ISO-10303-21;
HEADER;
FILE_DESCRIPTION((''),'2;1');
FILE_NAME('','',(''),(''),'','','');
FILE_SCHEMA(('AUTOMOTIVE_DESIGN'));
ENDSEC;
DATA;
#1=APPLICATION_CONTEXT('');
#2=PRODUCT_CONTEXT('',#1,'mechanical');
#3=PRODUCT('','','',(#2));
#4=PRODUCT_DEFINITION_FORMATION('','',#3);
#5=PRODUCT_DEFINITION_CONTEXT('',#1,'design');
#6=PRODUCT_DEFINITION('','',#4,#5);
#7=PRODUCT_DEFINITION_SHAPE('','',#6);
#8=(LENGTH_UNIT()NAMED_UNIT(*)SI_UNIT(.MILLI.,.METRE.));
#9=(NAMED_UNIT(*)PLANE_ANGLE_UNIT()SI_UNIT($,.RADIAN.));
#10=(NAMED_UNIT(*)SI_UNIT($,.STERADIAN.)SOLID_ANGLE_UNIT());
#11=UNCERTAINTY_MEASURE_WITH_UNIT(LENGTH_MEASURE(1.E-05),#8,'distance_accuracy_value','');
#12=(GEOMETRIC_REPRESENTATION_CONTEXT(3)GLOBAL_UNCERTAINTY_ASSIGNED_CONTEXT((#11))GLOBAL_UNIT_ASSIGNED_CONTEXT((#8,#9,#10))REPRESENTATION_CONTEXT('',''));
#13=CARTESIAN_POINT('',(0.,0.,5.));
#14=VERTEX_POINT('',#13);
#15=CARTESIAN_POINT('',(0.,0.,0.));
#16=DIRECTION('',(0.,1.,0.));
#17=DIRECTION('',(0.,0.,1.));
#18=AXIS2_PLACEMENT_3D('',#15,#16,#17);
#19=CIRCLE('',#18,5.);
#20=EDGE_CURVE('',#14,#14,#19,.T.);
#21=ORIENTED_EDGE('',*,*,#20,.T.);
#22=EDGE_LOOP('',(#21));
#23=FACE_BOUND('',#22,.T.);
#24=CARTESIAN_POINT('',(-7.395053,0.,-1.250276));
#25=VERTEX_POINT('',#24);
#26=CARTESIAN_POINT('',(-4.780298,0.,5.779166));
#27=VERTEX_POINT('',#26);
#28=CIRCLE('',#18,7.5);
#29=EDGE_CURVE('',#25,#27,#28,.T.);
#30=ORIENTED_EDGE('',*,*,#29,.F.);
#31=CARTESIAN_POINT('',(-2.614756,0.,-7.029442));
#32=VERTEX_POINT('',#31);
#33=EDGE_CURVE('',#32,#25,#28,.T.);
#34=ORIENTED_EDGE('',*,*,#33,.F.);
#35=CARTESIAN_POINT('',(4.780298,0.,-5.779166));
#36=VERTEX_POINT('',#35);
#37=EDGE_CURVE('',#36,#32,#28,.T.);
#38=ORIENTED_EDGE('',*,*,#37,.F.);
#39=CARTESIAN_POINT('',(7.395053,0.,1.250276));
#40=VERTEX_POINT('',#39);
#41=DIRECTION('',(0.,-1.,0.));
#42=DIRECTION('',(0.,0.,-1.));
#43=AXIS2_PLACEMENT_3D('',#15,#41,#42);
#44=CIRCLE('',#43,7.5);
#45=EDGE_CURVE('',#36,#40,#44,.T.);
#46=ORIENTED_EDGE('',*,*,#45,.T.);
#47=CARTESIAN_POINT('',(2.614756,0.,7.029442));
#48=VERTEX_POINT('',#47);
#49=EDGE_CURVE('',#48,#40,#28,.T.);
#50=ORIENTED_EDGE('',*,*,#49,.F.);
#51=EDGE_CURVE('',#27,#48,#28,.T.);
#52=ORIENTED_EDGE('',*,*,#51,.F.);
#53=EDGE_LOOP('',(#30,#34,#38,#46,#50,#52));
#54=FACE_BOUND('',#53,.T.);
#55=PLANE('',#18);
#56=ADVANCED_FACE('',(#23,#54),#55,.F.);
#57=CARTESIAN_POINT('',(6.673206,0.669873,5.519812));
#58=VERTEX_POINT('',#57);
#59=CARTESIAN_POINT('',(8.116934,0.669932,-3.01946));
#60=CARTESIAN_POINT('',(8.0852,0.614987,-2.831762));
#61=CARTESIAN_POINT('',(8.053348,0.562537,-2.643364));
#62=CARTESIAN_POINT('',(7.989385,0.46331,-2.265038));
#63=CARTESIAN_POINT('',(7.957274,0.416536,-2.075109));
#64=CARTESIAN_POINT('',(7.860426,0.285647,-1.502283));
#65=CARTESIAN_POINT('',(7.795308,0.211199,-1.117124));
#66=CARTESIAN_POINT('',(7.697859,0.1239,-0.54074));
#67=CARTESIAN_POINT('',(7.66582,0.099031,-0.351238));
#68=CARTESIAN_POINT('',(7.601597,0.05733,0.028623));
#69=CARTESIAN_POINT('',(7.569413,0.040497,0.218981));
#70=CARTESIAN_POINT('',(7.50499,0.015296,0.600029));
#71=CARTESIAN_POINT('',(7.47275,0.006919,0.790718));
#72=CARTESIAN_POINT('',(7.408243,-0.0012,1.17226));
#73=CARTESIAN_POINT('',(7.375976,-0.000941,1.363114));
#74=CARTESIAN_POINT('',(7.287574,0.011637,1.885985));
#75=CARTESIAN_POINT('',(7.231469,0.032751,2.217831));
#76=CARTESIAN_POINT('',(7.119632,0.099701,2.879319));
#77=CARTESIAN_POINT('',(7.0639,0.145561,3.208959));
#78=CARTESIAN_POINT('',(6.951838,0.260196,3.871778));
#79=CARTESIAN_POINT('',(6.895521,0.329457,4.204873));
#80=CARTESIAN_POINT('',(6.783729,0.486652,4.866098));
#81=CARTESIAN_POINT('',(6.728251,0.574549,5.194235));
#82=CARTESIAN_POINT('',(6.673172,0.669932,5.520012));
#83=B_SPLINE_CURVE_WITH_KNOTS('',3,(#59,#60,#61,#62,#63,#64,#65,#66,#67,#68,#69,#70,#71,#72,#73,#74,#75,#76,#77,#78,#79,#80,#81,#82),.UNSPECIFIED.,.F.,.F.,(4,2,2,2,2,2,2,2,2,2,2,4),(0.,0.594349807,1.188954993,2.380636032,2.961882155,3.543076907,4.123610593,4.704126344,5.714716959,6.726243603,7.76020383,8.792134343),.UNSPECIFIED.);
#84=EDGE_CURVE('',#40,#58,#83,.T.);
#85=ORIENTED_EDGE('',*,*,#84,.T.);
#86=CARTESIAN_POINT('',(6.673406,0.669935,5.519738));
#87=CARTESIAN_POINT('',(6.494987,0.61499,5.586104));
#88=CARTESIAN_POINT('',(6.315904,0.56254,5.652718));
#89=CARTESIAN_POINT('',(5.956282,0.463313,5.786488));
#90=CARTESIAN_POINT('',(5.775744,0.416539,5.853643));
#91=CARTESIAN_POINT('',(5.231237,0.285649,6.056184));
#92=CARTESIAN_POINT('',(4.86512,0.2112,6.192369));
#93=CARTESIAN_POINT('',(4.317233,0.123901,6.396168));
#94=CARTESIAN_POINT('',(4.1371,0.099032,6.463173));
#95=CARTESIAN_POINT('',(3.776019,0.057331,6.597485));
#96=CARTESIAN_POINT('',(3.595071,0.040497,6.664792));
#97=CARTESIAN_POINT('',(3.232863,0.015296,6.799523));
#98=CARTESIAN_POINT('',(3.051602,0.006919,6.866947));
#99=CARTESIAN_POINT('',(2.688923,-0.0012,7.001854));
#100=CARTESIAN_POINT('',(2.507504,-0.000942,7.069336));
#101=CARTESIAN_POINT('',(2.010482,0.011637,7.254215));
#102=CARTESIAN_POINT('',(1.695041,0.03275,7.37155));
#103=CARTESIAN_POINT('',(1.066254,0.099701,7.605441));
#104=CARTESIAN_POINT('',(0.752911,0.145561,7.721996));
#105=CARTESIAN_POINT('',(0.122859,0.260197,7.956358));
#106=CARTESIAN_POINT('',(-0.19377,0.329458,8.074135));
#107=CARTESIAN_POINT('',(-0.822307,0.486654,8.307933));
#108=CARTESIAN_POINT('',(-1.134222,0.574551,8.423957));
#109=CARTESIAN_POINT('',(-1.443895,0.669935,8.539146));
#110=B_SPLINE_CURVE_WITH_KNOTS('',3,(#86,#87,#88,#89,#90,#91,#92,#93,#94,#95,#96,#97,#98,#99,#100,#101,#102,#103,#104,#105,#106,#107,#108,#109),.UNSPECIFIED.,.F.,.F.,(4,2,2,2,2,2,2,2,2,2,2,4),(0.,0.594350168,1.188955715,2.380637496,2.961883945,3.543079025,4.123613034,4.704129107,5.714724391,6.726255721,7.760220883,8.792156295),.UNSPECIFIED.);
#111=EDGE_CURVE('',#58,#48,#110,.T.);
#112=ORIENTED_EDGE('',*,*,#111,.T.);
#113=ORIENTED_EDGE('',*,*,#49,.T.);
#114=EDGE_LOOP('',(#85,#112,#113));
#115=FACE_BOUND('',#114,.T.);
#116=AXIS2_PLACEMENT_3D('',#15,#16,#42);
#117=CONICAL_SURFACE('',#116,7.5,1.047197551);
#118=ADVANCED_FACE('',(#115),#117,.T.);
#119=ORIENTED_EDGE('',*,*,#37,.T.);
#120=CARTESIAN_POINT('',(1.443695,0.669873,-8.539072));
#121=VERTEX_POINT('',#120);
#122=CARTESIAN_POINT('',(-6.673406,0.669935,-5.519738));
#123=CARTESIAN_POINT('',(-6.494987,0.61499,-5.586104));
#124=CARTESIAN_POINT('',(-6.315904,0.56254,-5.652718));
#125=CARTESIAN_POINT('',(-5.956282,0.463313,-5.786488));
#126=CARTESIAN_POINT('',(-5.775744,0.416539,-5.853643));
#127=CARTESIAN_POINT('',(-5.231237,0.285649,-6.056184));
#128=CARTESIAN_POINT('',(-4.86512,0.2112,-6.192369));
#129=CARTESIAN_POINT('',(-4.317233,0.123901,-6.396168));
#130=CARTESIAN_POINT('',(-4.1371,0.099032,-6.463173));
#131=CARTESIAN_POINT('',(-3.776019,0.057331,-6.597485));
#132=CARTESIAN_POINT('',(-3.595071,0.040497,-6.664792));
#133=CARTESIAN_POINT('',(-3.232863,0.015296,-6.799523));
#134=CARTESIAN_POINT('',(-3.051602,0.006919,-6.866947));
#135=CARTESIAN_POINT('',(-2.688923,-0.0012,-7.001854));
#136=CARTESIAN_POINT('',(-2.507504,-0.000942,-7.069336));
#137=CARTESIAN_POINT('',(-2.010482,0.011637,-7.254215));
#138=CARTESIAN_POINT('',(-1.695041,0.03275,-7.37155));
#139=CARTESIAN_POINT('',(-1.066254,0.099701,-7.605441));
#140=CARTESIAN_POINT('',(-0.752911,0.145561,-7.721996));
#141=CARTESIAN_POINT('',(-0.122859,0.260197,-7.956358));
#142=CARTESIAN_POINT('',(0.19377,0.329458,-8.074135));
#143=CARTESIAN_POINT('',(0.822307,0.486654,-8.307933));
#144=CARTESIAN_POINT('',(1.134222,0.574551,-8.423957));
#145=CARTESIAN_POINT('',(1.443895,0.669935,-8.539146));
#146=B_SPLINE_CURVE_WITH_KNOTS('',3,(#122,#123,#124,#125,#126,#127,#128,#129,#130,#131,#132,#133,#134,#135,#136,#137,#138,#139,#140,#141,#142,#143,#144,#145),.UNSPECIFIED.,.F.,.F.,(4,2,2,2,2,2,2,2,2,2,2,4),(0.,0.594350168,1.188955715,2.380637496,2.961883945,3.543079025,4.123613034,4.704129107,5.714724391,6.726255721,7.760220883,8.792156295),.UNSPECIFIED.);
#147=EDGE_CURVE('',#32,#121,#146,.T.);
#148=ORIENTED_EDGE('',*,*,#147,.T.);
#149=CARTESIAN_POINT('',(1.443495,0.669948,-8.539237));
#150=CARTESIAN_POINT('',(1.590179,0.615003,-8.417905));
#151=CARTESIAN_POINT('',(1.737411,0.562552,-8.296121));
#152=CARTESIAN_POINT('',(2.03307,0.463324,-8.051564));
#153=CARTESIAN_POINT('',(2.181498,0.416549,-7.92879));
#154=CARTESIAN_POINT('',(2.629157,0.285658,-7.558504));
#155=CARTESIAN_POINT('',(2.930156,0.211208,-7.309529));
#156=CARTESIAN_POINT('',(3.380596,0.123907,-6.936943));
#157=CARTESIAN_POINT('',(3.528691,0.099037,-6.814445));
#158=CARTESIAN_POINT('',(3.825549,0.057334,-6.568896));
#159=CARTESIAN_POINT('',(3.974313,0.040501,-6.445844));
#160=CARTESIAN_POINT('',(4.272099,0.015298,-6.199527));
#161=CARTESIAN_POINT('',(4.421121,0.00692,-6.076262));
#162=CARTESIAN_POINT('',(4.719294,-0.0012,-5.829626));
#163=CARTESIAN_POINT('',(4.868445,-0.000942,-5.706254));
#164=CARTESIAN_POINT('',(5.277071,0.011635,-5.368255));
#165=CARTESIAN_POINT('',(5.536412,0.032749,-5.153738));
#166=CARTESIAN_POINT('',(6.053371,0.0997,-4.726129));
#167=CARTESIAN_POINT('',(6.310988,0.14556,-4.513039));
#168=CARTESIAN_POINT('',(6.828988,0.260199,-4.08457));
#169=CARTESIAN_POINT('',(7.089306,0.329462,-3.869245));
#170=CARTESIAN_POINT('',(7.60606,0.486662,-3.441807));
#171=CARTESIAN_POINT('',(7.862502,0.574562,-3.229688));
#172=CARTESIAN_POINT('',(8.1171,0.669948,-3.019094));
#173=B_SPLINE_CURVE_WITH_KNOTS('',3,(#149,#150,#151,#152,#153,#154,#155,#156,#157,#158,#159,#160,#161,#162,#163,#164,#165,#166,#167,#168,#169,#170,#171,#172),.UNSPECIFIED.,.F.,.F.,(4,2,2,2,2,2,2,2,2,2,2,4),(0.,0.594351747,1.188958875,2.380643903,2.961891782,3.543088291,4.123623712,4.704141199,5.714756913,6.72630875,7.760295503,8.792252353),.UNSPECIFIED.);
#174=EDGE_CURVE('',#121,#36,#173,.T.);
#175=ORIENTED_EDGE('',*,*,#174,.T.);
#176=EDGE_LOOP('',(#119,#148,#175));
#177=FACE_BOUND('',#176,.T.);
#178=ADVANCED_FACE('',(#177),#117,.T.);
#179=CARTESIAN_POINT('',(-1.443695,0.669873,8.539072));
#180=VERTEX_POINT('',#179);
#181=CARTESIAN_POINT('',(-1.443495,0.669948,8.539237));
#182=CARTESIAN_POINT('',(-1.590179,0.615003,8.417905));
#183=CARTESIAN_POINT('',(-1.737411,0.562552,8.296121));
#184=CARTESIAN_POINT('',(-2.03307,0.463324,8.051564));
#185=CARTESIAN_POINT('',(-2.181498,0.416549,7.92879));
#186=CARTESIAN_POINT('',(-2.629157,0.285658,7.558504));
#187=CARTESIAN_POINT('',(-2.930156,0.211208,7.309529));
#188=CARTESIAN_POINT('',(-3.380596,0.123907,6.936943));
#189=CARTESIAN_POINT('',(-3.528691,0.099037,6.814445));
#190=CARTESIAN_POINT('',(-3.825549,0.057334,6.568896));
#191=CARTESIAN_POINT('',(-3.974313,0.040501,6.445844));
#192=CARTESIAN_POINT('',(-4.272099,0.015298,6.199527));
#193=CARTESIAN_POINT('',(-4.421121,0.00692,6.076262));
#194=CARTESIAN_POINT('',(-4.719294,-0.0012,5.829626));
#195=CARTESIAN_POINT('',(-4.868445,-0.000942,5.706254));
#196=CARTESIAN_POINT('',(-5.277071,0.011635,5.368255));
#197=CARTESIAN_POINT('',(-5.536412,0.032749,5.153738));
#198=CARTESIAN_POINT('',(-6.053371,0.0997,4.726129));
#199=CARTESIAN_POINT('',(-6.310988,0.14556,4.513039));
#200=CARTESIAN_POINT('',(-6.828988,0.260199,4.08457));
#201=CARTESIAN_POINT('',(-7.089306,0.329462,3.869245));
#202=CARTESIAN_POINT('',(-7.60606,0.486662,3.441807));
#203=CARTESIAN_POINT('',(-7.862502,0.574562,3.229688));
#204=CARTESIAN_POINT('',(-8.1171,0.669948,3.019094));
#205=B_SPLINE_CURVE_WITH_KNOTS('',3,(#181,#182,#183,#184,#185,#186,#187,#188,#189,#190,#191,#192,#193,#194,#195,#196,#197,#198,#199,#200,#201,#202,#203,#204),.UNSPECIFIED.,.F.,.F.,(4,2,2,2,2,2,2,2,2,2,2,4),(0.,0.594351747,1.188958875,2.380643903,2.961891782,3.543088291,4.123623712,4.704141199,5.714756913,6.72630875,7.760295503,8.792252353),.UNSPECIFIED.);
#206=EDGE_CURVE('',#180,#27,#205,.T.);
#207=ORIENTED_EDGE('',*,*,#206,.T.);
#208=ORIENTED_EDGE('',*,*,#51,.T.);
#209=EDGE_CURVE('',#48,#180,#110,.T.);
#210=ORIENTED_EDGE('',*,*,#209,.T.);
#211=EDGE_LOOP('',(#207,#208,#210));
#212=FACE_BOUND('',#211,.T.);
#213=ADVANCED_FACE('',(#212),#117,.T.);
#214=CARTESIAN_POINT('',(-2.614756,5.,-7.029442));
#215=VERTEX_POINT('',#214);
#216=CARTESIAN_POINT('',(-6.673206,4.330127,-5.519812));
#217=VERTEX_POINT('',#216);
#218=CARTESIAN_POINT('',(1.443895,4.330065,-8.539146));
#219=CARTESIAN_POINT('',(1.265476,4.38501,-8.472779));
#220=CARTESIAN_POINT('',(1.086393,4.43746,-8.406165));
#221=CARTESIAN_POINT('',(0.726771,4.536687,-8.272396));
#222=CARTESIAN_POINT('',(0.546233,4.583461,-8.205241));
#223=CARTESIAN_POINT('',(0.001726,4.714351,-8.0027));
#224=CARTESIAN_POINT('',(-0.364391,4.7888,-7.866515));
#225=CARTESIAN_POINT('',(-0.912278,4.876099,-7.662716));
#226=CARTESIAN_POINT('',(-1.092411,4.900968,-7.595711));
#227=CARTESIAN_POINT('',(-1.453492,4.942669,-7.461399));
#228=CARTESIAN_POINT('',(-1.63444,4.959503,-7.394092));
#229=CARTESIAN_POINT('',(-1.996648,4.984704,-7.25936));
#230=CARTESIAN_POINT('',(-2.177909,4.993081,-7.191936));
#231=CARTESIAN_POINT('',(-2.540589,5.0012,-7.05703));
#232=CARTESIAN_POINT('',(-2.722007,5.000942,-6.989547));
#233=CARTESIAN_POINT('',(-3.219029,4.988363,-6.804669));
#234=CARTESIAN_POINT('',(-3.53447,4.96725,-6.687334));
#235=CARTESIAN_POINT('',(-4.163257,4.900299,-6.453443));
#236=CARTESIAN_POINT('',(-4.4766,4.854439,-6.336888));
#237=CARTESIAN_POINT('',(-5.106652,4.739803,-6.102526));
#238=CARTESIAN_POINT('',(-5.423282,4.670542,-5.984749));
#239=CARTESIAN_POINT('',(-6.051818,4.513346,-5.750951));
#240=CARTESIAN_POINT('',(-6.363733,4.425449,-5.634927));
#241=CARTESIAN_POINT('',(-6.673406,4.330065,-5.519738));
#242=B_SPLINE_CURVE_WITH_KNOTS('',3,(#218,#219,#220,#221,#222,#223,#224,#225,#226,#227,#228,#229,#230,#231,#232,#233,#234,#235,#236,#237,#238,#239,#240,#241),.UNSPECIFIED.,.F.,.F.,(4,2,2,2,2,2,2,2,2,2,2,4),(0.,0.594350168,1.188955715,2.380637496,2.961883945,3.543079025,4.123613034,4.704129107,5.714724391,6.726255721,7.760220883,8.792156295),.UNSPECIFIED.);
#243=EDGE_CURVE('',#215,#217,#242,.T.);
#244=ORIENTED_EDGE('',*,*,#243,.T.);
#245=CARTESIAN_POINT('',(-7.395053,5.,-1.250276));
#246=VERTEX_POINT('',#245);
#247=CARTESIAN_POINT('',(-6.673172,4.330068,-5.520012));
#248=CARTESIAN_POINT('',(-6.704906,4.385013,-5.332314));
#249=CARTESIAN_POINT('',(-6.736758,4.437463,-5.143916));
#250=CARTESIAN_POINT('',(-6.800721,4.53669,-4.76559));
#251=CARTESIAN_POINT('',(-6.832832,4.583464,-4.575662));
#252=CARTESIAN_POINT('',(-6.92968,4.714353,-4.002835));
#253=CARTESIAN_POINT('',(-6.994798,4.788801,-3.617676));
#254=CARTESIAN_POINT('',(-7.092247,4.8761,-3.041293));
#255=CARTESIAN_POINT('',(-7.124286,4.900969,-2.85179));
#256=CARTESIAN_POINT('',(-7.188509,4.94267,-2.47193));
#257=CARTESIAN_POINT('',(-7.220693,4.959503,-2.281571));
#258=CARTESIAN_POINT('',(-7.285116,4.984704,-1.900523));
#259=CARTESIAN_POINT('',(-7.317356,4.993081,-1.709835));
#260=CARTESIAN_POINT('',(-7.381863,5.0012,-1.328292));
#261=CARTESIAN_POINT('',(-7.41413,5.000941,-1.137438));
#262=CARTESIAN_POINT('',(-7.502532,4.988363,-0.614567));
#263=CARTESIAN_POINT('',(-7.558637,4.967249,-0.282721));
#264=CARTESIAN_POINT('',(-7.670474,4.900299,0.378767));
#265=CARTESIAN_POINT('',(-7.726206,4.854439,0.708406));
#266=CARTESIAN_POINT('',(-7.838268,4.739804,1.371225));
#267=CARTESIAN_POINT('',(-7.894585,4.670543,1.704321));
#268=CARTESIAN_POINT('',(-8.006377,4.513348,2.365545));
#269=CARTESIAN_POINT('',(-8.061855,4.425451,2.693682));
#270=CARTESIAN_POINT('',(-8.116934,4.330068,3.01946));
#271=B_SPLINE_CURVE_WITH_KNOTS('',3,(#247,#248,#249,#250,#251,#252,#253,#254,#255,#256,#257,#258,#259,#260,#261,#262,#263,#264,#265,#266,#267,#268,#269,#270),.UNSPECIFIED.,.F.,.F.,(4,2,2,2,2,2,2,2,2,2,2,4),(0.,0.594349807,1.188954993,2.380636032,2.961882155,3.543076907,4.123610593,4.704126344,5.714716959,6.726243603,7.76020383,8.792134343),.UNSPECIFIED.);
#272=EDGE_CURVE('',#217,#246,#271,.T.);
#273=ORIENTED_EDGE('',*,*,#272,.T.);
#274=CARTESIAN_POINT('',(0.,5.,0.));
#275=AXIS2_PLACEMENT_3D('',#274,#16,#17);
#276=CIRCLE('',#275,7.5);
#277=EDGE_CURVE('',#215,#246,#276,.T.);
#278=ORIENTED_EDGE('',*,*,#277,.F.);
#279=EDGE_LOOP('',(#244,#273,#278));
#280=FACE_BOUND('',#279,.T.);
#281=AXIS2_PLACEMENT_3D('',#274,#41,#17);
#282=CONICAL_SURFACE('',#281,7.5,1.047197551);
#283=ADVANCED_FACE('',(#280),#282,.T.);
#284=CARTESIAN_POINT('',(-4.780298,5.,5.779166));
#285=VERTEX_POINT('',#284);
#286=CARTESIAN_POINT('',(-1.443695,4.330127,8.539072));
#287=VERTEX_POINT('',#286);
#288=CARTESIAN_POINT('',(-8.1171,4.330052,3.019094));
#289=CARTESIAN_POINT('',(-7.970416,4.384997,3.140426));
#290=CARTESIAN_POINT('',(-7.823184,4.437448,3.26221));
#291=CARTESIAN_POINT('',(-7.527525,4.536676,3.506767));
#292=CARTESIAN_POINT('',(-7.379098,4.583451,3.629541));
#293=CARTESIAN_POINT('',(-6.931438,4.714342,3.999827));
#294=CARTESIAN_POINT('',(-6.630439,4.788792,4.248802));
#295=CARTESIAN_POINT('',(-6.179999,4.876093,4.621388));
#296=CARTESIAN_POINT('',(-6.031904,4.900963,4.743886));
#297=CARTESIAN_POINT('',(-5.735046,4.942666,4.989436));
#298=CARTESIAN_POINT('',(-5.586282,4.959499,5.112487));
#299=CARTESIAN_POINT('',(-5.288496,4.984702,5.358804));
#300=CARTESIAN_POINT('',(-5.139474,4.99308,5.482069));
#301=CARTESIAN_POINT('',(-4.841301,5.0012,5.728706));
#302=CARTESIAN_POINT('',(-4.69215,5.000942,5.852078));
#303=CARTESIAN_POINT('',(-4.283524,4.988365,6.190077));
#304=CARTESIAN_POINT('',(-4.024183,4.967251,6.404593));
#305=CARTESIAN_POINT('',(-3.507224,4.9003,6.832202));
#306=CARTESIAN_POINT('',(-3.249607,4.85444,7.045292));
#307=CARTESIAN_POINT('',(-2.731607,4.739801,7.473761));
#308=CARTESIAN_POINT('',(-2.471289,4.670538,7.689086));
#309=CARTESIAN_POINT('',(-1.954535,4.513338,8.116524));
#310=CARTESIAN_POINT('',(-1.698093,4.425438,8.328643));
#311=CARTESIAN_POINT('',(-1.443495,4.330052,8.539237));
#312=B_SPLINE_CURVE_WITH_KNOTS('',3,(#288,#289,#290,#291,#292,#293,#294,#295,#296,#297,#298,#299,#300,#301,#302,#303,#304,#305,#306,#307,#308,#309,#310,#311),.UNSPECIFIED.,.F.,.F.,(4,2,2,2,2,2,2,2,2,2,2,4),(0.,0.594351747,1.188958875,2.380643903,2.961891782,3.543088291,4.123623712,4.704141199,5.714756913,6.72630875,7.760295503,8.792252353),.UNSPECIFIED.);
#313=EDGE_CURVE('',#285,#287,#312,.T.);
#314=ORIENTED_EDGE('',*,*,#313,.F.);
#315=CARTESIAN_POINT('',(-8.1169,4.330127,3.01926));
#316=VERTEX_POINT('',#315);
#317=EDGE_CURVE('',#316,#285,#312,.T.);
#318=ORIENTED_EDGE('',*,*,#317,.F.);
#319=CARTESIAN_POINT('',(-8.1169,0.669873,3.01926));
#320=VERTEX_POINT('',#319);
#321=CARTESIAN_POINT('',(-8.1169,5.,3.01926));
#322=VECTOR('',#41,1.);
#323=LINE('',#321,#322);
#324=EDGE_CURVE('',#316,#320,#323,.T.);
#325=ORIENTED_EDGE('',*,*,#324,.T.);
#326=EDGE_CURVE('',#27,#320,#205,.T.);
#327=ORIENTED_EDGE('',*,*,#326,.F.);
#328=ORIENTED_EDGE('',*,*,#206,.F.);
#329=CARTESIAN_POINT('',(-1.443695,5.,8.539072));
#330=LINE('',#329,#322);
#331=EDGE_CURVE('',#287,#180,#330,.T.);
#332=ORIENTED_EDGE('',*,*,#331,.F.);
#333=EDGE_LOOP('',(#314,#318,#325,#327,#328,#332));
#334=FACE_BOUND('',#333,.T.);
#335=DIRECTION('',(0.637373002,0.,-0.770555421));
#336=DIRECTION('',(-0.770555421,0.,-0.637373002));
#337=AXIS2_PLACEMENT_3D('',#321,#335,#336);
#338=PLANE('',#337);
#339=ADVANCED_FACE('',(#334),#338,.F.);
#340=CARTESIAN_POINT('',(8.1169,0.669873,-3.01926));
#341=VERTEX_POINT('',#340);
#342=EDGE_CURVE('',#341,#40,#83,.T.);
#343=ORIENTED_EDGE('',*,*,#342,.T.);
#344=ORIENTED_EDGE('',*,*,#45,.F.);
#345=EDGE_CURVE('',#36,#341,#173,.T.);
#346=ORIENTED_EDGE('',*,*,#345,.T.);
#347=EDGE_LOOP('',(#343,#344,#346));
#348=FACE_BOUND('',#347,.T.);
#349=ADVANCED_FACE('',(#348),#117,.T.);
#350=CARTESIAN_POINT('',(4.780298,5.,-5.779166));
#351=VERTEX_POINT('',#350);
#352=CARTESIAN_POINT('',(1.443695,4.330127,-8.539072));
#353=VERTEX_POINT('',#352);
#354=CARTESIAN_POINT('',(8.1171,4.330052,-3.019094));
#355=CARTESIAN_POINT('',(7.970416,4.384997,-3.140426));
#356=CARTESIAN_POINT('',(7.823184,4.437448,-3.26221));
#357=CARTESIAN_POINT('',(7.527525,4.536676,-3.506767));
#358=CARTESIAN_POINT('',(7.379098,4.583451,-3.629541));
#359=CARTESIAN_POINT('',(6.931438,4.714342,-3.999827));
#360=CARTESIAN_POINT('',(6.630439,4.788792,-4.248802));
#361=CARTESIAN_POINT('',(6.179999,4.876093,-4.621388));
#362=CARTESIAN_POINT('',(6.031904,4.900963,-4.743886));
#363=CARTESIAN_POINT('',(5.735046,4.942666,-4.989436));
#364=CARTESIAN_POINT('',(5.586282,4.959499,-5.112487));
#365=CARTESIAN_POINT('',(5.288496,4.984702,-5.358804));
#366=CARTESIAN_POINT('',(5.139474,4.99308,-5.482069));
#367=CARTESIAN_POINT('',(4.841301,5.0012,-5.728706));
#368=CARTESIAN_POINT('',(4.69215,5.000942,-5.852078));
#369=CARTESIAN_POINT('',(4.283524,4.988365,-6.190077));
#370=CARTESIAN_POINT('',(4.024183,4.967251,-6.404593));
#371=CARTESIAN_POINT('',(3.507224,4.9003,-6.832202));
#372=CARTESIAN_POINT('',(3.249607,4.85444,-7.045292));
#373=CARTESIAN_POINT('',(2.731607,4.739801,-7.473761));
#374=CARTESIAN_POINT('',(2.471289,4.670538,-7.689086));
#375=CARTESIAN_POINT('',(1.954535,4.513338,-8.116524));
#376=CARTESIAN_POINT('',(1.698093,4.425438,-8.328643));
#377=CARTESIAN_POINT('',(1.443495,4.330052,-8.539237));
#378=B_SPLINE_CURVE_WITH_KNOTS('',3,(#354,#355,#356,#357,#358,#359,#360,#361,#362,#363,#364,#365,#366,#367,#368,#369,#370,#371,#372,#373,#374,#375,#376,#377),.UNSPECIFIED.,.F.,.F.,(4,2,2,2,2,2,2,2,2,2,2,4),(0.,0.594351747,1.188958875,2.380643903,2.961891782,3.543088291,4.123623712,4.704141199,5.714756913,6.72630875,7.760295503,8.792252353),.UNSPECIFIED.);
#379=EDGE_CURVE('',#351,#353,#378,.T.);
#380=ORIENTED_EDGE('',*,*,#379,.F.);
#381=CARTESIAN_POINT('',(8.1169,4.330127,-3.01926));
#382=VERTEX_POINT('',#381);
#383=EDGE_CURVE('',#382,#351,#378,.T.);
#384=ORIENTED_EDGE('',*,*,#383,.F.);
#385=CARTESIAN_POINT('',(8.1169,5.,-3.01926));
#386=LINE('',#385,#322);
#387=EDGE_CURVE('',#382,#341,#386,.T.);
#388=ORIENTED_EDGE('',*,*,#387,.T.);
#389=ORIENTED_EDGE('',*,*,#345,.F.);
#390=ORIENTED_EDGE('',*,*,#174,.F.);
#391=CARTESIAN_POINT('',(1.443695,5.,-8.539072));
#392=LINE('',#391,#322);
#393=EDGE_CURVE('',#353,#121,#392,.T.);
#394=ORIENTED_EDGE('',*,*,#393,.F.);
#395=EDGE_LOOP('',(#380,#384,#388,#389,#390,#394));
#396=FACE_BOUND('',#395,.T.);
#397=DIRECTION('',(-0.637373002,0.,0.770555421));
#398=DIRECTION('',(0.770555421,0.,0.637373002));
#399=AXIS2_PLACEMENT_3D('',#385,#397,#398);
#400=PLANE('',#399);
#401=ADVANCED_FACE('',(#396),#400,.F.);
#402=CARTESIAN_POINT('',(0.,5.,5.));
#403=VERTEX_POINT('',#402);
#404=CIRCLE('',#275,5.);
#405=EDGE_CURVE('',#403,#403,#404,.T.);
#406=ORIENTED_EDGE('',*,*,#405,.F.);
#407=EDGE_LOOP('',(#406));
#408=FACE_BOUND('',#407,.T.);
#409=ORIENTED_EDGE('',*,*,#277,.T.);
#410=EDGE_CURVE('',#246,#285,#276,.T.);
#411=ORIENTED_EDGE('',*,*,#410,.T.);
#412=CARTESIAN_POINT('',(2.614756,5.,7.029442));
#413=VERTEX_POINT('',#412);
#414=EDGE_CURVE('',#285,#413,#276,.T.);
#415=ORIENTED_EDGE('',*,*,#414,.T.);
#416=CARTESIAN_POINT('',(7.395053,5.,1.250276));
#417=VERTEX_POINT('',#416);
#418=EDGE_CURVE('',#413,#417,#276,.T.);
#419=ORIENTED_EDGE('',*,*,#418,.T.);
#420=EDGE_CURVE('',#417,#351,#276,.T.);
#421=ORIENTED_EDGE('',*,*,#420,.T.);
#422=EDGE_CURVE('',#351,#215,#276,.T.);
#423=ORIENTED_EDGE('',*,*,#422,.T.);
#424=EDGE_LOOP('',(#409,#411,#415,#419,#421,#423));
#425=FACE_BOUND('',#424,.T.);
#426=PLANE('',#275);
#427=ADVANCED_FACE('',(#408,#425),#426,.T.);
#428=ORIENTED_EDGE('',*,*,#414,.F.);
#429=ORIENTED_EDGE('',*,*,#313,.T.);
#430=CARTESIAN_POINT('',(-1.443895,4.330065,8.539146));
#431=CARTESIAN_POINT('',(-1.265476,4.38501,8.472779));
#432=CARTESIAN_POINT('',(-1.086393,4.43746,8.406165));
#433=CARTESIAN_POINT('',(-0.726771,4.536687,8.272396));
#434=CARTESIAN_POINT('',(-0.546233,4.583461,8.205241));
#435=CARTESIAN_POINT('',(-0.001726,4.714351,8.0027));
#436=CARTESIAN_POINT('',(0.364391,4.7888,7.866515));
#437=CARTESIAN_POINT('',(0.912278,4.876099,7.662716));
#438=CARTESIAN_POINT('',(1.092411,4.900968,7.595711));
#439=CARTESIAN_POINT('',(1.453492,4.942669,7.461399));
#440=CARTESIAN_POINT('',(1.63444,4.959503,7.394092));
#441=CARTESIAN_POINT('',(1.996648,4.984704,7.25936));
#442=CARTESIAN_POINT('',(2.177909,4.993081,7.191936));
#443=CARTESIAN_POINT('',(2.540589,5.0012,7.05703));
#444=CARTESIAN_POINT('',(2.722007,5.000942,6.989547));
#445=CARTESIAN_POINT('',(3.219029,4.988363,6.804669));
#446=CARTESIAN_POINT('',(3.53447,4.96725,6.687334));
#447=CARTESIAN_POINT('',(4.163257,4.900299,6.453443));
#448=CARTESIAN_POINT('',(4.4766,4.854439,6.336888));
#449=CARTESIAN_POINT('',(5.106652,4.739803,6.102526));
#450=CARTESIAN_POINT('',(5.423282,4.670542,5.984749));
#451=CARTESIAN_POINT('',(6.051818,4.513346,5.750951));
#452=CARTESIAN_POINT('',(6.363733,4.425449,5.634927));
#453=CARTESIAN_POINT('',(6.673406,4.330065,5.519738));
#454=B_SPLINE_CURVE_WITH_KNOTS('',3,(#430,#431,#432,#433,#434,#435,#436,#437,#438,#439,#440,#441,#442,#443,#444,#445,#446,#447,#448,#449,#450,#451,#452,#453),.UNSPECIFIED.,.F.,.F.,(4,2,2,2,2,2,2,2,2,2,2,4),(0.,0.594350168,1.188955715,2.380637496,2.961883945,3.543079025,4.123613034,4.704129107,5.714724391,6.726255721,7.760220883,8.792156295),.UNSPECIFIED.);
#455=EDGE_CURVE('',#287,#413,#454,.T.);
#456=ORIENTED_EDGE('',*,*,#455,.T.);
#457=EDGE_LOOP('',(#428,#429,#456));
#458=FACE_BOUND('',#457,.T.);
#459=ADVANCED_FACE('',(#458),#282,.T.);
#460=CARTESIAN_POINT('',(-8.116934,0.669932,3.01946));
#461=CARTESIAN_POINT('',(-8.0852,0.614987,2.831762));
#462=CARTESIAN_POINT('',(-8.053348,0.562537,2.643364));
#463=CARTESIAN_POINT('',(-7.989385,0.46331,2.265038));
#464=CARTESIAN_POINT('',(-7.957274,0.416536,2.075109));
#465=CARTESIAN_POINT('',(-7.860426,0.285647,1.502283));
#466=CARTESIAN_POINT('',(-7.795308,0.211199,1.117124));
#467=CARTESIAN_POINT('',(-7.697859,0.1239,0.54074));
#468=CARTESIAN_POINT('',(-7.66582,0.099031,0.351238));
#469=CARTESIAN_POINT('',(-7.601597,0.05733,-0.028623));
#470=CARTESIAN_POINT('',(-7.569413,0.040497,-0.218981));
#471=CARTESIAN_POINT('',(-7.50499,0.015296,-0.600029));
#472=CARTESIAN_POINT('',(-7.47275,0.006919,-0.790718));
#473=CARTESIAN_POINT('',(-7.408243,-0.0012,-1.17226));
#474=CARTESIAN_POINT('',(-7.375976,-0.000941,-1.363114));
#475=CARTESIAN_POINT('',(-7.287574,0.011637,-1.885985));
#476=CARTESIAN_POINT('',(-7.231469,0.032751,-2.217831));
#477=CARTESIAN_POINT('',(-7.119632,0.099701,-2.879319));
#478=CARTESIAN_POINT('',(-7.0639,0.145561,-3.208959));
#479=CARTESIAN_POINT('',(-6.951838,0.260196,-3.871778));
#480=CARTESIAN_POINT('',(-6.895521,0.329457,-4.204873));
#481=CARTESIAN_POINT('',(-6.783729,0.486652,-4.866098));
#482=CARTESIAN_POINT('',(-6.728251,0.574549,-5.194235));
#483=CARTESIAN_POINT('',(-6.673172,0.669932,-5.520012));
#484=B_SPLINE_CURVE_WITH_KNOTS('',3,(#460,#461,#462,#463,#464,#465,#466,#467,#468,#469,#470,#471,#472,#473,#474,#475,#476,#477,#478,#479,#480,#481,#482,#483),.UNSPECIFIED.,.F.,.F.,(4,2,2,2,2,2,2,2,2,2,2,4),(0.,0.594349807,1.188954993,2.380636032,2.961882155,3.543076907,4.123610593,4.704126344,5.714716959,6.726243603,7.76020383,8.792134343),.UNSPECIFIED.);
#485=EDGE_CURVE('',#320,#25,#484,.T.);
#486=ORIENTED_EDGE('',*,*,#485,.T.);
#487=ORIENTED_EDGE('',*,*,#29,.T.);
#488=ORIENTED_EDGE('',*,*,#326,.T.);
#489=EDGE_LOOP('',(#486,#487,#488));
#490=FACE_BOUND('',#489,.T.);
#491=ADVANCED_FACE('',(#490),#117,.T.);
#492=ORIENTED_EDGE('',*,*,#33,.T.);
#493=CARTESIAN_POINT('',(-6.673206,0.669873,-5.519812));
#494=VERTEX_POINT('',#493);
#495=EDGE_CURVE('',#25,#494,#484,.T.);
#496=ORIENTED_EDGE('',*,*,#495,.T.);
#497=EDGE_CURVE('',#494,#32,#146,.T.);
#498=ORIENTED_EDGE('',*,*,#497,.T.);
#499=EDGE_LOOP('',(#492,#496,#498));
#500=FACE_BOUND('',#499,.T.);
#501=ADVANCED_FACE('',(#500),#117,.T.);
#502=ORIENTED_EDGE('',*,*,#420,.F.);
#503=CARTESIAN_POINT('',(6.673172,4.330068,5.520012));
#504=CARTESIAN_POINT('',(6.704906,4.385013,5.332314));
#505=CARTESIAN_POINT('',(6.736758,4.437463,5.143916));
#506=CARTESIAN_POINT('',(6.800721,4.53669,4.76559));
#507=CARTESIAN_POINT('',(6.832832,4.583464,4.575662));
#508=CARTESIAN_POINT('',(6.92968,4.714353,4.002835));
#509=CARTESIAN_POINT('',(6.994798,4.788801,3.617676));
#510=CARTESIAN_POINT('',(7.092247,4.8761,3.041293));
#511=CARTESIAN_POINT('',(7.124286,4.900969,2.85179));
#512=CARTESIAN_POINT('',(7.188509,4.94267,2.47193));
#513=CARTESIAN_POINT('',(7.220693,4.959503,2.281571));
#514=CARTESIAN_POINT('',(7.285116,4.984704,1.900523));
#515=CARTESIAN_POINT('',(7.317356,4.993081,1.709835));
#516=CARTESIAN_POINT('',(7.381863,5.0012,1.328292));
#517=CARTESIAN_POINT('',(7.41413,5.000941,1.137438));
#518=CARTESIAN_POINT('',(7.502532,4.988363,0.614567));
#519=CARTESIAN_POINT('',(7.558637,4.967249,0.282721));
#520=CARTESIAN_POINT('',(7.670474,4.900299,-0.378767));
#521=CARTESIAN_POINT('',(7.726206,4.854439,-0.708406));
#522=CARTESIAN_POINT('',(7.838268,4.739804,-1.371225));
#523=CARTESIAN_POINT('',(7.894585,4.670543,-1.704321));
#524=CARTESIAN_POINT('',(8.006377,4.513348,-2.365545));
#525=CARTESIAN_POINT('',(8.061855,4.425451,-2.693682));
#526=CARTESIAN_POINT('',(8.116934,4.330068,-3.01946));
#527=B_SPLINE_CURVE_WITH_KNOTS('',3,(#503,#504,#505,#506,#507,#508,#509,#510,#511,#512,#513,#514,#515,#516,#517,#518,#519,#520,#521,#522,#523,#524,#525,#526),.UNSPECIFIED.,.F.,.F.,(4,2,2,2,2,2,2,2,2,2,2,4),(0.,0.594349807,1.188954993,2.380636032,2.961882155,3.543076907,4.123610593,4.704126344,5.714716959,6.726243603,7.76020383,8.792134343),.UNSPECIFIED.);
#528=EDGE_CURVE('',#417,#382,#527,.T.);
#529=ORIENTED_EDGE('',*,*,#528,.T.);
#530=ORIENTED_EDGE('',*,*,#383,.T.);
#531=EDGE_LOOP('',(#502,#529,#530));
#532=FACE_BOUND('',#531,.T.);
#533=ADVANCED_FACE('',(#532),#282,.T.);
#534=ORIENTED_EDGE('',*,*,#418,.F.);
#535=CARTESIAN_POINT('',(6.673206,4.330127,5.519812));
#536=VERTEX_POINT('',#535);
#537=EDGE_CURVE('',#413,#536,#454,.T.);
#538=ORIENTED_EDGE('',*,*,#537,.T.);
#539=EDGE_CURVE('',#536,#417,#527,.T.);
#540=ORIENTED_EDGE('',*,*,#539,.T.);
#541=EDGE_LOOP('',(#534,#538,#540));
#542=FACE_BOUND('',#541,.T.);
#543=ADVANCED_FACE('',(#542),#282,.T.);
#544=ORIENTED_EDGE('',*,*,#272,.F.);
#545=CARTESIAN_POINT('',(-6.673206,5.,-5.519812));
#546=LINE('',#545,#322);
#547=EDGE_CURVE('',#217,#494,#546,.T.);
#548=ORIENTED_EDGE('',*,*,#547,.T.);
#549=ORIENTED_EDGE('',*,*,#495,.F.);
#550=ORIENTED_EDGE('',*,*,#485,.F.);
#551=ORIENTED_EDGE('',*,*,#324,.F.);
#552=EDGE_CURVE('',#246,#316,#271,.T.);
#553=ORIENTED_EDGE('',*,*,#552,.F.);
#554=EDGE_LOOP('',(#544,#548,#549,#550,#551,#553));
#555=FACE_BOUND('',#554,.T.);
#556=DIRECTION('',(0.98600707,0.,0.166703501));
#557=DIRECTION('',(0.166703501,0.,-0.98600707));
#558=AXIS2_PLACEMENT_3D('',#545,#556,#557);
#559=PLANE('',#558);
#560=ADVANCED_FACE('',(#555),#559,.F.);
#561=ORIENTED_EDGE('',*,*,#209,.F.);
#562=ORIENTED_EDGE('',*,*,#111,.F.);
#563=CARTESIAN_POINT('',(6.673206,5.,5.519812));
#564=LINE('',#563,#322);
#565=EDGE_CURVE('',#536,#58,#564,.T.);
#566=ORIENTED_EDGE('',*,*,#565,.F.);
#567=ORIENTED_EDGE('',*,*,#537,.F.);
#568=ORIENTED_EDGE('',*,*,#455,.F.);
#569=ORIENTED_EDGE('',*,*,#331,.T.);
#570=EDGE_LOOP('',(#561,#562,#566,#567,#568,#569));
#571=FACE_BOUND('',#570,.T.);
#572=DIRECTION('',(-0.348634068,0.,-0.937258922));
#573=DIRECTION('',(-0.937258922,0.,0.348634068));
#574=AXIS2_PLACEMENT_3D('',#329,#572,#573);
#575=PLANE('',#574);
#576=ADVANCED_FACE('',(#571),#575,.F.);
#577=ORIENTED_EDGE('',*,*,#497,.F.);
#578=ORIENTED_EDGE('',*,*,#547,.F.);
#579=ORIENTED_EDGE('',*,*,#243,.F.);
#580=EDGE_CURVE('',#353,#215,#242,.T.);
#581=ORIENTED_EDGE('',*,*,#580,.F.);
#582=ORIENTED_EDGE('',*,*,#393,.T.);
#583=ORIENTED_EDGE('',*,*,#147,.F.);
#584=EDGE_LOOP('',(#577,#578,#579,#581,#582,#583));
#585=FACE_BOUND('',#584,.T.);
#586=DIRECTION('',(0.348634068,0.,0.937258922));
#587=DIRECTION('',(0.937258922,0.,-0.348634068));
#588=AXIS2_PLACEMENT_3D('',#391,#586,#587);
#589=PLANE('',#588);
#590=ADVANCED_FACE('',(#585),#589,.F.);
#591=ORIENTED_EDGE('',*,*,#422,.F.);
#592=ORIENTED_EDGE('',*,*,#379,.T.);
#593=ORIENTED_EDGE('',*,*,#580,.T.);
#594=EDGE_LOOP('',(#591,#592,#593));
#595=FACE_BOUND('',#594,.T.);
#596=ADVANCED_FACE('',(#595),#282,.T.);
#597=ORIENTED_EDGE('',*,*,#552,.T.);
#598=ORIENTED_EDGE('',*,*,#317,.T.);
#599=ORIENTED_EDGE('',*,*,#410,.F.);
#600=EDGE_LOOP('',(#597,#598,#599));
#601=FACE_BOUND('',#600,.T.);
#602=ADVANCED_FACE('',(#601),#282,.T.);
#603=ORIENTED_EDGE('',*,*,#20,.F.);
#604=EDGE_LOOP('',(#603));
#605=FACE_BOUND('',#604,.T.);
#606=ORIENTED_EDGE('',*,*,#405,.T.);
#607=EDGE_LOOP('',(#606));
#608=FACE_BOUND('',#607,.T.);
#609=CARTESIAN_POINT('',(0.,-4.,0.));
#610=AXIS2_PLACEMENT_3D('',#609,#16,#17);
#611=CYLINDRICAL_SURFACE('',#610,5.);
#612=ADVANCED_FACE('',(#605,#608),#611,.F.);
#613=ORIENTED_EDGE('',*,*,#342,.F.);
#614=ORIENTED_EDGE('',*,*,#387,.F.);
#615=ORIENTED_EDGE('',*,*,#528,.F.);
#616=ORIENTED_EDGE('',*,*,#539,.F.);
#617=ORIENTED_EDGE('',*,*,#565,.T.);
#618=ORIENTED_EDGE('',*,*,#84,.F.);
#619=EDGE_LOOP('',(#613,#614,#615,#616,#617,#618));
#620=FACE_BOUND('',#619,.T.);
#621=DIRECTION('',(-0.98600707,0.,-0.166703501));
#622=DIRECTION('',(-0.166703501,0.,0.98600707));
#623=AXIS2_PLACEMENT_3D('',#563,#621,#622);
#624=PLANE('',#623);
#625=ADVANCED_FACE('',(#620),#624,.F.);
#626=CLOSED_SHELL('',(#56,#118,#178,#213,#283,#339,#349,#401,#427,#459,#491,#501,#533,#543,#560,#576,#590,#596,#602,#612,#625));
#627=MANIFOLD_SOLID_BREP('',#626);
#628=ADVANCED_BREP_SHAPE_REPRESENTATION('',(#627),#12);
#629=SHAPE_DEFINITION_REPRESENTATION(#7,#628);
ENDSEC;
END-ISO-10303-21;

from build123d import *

# Parameters (mm, degrees)
BOSS_EXTRUDE1_DEPTH = 5
SKETCH7_OUTSIDE_W   = 26.516
SKETCH7_OUTSIDE_H   = 27.36
SKETCH7_OUTSIDE_R   = 7.5
CUT_EXTRUDE4_DEPTH  = 1
CUT_EXTRUDE4_TAPER  = 60
SKETCH8_OUTSIDE_W   = 26.516
SKETCH8_OUTSIDE_H   = 27.36
SKETCH8_OUTSIDE_R   = 7.5
CUT_EXTRUDE5_DEPTH  = 1
CUT_EXTRUDE5_TAPER  = 60
SKETCH9_R           = 5
CUT_EXTRUDE6_DEPTH  = 9


with BuildPart() as part:
    # Sketch1 → Boss-Extrude1 (new body)
    with BuildSketch(Plane(origin=(0, 0, 0), x_dir=(1, 0, 0), z_dir=(0, 1, 0))):
        Polygon((6.673205692, -5.519812116), (8.116900362, 3.019259596), (1.44369467, 8.539071712), (-6.673205692, 5.519812116), (-8.116900362, -3.019259596), (-1.44369467, -8.539071712), align=None)
    extrude(amount=BOSS_EXTRUDE1_DEPTH)

    # Sketch7 outside → Cut-Extrude4 (cut)
    with BuildSketch(Plane(origin=(0, 5, 0), x_dir=(1, 0, 0), z_dir=(0, 1, 0))):
        Rectangle(SKETCH7_OUTSIDE_W, SKETCH7_OUTSIDE_H)
        Circle(SKETCH7_OUTSIDE_R, mode=Mode.SUBTRACT)
    extrude(amount=-CUT_EXTRUDE4_DEPTH, taper=CUT_EXTRUDE4_TAPER, mode=Mode.SUBTRACT)

    # Sketch8 outside → Cut-Extrude5 (cut)
    with BuildSketch(Plane.XZ):
        Rectangle(SKETCH8_OUTSIDE_W, SKETCH8_OUTSIDE_H)
        Circle(SKETCH8_OUTSIDE_R, mode=Mode.SUBTRACT)
    extrude(amount=-CUT_EXTRUDE5_DEPTH, taper=CUT_EXTRUDE5_TAPER, mode=Mode.SUBTRACT)

    # Sketch9 → Cut-Extrude6 (cut)
    with BuildSketch(Plane(origin=(0, 5, 0), x_dir=(1, 0, 0), z_dir=(0, 1, 0))):
        Circle(SKETCH9_R)
    extrude(amount=-CUT_EXTRUDE6_DEPTH, mode=Mode.SUBTRACT)


solid = part.part
